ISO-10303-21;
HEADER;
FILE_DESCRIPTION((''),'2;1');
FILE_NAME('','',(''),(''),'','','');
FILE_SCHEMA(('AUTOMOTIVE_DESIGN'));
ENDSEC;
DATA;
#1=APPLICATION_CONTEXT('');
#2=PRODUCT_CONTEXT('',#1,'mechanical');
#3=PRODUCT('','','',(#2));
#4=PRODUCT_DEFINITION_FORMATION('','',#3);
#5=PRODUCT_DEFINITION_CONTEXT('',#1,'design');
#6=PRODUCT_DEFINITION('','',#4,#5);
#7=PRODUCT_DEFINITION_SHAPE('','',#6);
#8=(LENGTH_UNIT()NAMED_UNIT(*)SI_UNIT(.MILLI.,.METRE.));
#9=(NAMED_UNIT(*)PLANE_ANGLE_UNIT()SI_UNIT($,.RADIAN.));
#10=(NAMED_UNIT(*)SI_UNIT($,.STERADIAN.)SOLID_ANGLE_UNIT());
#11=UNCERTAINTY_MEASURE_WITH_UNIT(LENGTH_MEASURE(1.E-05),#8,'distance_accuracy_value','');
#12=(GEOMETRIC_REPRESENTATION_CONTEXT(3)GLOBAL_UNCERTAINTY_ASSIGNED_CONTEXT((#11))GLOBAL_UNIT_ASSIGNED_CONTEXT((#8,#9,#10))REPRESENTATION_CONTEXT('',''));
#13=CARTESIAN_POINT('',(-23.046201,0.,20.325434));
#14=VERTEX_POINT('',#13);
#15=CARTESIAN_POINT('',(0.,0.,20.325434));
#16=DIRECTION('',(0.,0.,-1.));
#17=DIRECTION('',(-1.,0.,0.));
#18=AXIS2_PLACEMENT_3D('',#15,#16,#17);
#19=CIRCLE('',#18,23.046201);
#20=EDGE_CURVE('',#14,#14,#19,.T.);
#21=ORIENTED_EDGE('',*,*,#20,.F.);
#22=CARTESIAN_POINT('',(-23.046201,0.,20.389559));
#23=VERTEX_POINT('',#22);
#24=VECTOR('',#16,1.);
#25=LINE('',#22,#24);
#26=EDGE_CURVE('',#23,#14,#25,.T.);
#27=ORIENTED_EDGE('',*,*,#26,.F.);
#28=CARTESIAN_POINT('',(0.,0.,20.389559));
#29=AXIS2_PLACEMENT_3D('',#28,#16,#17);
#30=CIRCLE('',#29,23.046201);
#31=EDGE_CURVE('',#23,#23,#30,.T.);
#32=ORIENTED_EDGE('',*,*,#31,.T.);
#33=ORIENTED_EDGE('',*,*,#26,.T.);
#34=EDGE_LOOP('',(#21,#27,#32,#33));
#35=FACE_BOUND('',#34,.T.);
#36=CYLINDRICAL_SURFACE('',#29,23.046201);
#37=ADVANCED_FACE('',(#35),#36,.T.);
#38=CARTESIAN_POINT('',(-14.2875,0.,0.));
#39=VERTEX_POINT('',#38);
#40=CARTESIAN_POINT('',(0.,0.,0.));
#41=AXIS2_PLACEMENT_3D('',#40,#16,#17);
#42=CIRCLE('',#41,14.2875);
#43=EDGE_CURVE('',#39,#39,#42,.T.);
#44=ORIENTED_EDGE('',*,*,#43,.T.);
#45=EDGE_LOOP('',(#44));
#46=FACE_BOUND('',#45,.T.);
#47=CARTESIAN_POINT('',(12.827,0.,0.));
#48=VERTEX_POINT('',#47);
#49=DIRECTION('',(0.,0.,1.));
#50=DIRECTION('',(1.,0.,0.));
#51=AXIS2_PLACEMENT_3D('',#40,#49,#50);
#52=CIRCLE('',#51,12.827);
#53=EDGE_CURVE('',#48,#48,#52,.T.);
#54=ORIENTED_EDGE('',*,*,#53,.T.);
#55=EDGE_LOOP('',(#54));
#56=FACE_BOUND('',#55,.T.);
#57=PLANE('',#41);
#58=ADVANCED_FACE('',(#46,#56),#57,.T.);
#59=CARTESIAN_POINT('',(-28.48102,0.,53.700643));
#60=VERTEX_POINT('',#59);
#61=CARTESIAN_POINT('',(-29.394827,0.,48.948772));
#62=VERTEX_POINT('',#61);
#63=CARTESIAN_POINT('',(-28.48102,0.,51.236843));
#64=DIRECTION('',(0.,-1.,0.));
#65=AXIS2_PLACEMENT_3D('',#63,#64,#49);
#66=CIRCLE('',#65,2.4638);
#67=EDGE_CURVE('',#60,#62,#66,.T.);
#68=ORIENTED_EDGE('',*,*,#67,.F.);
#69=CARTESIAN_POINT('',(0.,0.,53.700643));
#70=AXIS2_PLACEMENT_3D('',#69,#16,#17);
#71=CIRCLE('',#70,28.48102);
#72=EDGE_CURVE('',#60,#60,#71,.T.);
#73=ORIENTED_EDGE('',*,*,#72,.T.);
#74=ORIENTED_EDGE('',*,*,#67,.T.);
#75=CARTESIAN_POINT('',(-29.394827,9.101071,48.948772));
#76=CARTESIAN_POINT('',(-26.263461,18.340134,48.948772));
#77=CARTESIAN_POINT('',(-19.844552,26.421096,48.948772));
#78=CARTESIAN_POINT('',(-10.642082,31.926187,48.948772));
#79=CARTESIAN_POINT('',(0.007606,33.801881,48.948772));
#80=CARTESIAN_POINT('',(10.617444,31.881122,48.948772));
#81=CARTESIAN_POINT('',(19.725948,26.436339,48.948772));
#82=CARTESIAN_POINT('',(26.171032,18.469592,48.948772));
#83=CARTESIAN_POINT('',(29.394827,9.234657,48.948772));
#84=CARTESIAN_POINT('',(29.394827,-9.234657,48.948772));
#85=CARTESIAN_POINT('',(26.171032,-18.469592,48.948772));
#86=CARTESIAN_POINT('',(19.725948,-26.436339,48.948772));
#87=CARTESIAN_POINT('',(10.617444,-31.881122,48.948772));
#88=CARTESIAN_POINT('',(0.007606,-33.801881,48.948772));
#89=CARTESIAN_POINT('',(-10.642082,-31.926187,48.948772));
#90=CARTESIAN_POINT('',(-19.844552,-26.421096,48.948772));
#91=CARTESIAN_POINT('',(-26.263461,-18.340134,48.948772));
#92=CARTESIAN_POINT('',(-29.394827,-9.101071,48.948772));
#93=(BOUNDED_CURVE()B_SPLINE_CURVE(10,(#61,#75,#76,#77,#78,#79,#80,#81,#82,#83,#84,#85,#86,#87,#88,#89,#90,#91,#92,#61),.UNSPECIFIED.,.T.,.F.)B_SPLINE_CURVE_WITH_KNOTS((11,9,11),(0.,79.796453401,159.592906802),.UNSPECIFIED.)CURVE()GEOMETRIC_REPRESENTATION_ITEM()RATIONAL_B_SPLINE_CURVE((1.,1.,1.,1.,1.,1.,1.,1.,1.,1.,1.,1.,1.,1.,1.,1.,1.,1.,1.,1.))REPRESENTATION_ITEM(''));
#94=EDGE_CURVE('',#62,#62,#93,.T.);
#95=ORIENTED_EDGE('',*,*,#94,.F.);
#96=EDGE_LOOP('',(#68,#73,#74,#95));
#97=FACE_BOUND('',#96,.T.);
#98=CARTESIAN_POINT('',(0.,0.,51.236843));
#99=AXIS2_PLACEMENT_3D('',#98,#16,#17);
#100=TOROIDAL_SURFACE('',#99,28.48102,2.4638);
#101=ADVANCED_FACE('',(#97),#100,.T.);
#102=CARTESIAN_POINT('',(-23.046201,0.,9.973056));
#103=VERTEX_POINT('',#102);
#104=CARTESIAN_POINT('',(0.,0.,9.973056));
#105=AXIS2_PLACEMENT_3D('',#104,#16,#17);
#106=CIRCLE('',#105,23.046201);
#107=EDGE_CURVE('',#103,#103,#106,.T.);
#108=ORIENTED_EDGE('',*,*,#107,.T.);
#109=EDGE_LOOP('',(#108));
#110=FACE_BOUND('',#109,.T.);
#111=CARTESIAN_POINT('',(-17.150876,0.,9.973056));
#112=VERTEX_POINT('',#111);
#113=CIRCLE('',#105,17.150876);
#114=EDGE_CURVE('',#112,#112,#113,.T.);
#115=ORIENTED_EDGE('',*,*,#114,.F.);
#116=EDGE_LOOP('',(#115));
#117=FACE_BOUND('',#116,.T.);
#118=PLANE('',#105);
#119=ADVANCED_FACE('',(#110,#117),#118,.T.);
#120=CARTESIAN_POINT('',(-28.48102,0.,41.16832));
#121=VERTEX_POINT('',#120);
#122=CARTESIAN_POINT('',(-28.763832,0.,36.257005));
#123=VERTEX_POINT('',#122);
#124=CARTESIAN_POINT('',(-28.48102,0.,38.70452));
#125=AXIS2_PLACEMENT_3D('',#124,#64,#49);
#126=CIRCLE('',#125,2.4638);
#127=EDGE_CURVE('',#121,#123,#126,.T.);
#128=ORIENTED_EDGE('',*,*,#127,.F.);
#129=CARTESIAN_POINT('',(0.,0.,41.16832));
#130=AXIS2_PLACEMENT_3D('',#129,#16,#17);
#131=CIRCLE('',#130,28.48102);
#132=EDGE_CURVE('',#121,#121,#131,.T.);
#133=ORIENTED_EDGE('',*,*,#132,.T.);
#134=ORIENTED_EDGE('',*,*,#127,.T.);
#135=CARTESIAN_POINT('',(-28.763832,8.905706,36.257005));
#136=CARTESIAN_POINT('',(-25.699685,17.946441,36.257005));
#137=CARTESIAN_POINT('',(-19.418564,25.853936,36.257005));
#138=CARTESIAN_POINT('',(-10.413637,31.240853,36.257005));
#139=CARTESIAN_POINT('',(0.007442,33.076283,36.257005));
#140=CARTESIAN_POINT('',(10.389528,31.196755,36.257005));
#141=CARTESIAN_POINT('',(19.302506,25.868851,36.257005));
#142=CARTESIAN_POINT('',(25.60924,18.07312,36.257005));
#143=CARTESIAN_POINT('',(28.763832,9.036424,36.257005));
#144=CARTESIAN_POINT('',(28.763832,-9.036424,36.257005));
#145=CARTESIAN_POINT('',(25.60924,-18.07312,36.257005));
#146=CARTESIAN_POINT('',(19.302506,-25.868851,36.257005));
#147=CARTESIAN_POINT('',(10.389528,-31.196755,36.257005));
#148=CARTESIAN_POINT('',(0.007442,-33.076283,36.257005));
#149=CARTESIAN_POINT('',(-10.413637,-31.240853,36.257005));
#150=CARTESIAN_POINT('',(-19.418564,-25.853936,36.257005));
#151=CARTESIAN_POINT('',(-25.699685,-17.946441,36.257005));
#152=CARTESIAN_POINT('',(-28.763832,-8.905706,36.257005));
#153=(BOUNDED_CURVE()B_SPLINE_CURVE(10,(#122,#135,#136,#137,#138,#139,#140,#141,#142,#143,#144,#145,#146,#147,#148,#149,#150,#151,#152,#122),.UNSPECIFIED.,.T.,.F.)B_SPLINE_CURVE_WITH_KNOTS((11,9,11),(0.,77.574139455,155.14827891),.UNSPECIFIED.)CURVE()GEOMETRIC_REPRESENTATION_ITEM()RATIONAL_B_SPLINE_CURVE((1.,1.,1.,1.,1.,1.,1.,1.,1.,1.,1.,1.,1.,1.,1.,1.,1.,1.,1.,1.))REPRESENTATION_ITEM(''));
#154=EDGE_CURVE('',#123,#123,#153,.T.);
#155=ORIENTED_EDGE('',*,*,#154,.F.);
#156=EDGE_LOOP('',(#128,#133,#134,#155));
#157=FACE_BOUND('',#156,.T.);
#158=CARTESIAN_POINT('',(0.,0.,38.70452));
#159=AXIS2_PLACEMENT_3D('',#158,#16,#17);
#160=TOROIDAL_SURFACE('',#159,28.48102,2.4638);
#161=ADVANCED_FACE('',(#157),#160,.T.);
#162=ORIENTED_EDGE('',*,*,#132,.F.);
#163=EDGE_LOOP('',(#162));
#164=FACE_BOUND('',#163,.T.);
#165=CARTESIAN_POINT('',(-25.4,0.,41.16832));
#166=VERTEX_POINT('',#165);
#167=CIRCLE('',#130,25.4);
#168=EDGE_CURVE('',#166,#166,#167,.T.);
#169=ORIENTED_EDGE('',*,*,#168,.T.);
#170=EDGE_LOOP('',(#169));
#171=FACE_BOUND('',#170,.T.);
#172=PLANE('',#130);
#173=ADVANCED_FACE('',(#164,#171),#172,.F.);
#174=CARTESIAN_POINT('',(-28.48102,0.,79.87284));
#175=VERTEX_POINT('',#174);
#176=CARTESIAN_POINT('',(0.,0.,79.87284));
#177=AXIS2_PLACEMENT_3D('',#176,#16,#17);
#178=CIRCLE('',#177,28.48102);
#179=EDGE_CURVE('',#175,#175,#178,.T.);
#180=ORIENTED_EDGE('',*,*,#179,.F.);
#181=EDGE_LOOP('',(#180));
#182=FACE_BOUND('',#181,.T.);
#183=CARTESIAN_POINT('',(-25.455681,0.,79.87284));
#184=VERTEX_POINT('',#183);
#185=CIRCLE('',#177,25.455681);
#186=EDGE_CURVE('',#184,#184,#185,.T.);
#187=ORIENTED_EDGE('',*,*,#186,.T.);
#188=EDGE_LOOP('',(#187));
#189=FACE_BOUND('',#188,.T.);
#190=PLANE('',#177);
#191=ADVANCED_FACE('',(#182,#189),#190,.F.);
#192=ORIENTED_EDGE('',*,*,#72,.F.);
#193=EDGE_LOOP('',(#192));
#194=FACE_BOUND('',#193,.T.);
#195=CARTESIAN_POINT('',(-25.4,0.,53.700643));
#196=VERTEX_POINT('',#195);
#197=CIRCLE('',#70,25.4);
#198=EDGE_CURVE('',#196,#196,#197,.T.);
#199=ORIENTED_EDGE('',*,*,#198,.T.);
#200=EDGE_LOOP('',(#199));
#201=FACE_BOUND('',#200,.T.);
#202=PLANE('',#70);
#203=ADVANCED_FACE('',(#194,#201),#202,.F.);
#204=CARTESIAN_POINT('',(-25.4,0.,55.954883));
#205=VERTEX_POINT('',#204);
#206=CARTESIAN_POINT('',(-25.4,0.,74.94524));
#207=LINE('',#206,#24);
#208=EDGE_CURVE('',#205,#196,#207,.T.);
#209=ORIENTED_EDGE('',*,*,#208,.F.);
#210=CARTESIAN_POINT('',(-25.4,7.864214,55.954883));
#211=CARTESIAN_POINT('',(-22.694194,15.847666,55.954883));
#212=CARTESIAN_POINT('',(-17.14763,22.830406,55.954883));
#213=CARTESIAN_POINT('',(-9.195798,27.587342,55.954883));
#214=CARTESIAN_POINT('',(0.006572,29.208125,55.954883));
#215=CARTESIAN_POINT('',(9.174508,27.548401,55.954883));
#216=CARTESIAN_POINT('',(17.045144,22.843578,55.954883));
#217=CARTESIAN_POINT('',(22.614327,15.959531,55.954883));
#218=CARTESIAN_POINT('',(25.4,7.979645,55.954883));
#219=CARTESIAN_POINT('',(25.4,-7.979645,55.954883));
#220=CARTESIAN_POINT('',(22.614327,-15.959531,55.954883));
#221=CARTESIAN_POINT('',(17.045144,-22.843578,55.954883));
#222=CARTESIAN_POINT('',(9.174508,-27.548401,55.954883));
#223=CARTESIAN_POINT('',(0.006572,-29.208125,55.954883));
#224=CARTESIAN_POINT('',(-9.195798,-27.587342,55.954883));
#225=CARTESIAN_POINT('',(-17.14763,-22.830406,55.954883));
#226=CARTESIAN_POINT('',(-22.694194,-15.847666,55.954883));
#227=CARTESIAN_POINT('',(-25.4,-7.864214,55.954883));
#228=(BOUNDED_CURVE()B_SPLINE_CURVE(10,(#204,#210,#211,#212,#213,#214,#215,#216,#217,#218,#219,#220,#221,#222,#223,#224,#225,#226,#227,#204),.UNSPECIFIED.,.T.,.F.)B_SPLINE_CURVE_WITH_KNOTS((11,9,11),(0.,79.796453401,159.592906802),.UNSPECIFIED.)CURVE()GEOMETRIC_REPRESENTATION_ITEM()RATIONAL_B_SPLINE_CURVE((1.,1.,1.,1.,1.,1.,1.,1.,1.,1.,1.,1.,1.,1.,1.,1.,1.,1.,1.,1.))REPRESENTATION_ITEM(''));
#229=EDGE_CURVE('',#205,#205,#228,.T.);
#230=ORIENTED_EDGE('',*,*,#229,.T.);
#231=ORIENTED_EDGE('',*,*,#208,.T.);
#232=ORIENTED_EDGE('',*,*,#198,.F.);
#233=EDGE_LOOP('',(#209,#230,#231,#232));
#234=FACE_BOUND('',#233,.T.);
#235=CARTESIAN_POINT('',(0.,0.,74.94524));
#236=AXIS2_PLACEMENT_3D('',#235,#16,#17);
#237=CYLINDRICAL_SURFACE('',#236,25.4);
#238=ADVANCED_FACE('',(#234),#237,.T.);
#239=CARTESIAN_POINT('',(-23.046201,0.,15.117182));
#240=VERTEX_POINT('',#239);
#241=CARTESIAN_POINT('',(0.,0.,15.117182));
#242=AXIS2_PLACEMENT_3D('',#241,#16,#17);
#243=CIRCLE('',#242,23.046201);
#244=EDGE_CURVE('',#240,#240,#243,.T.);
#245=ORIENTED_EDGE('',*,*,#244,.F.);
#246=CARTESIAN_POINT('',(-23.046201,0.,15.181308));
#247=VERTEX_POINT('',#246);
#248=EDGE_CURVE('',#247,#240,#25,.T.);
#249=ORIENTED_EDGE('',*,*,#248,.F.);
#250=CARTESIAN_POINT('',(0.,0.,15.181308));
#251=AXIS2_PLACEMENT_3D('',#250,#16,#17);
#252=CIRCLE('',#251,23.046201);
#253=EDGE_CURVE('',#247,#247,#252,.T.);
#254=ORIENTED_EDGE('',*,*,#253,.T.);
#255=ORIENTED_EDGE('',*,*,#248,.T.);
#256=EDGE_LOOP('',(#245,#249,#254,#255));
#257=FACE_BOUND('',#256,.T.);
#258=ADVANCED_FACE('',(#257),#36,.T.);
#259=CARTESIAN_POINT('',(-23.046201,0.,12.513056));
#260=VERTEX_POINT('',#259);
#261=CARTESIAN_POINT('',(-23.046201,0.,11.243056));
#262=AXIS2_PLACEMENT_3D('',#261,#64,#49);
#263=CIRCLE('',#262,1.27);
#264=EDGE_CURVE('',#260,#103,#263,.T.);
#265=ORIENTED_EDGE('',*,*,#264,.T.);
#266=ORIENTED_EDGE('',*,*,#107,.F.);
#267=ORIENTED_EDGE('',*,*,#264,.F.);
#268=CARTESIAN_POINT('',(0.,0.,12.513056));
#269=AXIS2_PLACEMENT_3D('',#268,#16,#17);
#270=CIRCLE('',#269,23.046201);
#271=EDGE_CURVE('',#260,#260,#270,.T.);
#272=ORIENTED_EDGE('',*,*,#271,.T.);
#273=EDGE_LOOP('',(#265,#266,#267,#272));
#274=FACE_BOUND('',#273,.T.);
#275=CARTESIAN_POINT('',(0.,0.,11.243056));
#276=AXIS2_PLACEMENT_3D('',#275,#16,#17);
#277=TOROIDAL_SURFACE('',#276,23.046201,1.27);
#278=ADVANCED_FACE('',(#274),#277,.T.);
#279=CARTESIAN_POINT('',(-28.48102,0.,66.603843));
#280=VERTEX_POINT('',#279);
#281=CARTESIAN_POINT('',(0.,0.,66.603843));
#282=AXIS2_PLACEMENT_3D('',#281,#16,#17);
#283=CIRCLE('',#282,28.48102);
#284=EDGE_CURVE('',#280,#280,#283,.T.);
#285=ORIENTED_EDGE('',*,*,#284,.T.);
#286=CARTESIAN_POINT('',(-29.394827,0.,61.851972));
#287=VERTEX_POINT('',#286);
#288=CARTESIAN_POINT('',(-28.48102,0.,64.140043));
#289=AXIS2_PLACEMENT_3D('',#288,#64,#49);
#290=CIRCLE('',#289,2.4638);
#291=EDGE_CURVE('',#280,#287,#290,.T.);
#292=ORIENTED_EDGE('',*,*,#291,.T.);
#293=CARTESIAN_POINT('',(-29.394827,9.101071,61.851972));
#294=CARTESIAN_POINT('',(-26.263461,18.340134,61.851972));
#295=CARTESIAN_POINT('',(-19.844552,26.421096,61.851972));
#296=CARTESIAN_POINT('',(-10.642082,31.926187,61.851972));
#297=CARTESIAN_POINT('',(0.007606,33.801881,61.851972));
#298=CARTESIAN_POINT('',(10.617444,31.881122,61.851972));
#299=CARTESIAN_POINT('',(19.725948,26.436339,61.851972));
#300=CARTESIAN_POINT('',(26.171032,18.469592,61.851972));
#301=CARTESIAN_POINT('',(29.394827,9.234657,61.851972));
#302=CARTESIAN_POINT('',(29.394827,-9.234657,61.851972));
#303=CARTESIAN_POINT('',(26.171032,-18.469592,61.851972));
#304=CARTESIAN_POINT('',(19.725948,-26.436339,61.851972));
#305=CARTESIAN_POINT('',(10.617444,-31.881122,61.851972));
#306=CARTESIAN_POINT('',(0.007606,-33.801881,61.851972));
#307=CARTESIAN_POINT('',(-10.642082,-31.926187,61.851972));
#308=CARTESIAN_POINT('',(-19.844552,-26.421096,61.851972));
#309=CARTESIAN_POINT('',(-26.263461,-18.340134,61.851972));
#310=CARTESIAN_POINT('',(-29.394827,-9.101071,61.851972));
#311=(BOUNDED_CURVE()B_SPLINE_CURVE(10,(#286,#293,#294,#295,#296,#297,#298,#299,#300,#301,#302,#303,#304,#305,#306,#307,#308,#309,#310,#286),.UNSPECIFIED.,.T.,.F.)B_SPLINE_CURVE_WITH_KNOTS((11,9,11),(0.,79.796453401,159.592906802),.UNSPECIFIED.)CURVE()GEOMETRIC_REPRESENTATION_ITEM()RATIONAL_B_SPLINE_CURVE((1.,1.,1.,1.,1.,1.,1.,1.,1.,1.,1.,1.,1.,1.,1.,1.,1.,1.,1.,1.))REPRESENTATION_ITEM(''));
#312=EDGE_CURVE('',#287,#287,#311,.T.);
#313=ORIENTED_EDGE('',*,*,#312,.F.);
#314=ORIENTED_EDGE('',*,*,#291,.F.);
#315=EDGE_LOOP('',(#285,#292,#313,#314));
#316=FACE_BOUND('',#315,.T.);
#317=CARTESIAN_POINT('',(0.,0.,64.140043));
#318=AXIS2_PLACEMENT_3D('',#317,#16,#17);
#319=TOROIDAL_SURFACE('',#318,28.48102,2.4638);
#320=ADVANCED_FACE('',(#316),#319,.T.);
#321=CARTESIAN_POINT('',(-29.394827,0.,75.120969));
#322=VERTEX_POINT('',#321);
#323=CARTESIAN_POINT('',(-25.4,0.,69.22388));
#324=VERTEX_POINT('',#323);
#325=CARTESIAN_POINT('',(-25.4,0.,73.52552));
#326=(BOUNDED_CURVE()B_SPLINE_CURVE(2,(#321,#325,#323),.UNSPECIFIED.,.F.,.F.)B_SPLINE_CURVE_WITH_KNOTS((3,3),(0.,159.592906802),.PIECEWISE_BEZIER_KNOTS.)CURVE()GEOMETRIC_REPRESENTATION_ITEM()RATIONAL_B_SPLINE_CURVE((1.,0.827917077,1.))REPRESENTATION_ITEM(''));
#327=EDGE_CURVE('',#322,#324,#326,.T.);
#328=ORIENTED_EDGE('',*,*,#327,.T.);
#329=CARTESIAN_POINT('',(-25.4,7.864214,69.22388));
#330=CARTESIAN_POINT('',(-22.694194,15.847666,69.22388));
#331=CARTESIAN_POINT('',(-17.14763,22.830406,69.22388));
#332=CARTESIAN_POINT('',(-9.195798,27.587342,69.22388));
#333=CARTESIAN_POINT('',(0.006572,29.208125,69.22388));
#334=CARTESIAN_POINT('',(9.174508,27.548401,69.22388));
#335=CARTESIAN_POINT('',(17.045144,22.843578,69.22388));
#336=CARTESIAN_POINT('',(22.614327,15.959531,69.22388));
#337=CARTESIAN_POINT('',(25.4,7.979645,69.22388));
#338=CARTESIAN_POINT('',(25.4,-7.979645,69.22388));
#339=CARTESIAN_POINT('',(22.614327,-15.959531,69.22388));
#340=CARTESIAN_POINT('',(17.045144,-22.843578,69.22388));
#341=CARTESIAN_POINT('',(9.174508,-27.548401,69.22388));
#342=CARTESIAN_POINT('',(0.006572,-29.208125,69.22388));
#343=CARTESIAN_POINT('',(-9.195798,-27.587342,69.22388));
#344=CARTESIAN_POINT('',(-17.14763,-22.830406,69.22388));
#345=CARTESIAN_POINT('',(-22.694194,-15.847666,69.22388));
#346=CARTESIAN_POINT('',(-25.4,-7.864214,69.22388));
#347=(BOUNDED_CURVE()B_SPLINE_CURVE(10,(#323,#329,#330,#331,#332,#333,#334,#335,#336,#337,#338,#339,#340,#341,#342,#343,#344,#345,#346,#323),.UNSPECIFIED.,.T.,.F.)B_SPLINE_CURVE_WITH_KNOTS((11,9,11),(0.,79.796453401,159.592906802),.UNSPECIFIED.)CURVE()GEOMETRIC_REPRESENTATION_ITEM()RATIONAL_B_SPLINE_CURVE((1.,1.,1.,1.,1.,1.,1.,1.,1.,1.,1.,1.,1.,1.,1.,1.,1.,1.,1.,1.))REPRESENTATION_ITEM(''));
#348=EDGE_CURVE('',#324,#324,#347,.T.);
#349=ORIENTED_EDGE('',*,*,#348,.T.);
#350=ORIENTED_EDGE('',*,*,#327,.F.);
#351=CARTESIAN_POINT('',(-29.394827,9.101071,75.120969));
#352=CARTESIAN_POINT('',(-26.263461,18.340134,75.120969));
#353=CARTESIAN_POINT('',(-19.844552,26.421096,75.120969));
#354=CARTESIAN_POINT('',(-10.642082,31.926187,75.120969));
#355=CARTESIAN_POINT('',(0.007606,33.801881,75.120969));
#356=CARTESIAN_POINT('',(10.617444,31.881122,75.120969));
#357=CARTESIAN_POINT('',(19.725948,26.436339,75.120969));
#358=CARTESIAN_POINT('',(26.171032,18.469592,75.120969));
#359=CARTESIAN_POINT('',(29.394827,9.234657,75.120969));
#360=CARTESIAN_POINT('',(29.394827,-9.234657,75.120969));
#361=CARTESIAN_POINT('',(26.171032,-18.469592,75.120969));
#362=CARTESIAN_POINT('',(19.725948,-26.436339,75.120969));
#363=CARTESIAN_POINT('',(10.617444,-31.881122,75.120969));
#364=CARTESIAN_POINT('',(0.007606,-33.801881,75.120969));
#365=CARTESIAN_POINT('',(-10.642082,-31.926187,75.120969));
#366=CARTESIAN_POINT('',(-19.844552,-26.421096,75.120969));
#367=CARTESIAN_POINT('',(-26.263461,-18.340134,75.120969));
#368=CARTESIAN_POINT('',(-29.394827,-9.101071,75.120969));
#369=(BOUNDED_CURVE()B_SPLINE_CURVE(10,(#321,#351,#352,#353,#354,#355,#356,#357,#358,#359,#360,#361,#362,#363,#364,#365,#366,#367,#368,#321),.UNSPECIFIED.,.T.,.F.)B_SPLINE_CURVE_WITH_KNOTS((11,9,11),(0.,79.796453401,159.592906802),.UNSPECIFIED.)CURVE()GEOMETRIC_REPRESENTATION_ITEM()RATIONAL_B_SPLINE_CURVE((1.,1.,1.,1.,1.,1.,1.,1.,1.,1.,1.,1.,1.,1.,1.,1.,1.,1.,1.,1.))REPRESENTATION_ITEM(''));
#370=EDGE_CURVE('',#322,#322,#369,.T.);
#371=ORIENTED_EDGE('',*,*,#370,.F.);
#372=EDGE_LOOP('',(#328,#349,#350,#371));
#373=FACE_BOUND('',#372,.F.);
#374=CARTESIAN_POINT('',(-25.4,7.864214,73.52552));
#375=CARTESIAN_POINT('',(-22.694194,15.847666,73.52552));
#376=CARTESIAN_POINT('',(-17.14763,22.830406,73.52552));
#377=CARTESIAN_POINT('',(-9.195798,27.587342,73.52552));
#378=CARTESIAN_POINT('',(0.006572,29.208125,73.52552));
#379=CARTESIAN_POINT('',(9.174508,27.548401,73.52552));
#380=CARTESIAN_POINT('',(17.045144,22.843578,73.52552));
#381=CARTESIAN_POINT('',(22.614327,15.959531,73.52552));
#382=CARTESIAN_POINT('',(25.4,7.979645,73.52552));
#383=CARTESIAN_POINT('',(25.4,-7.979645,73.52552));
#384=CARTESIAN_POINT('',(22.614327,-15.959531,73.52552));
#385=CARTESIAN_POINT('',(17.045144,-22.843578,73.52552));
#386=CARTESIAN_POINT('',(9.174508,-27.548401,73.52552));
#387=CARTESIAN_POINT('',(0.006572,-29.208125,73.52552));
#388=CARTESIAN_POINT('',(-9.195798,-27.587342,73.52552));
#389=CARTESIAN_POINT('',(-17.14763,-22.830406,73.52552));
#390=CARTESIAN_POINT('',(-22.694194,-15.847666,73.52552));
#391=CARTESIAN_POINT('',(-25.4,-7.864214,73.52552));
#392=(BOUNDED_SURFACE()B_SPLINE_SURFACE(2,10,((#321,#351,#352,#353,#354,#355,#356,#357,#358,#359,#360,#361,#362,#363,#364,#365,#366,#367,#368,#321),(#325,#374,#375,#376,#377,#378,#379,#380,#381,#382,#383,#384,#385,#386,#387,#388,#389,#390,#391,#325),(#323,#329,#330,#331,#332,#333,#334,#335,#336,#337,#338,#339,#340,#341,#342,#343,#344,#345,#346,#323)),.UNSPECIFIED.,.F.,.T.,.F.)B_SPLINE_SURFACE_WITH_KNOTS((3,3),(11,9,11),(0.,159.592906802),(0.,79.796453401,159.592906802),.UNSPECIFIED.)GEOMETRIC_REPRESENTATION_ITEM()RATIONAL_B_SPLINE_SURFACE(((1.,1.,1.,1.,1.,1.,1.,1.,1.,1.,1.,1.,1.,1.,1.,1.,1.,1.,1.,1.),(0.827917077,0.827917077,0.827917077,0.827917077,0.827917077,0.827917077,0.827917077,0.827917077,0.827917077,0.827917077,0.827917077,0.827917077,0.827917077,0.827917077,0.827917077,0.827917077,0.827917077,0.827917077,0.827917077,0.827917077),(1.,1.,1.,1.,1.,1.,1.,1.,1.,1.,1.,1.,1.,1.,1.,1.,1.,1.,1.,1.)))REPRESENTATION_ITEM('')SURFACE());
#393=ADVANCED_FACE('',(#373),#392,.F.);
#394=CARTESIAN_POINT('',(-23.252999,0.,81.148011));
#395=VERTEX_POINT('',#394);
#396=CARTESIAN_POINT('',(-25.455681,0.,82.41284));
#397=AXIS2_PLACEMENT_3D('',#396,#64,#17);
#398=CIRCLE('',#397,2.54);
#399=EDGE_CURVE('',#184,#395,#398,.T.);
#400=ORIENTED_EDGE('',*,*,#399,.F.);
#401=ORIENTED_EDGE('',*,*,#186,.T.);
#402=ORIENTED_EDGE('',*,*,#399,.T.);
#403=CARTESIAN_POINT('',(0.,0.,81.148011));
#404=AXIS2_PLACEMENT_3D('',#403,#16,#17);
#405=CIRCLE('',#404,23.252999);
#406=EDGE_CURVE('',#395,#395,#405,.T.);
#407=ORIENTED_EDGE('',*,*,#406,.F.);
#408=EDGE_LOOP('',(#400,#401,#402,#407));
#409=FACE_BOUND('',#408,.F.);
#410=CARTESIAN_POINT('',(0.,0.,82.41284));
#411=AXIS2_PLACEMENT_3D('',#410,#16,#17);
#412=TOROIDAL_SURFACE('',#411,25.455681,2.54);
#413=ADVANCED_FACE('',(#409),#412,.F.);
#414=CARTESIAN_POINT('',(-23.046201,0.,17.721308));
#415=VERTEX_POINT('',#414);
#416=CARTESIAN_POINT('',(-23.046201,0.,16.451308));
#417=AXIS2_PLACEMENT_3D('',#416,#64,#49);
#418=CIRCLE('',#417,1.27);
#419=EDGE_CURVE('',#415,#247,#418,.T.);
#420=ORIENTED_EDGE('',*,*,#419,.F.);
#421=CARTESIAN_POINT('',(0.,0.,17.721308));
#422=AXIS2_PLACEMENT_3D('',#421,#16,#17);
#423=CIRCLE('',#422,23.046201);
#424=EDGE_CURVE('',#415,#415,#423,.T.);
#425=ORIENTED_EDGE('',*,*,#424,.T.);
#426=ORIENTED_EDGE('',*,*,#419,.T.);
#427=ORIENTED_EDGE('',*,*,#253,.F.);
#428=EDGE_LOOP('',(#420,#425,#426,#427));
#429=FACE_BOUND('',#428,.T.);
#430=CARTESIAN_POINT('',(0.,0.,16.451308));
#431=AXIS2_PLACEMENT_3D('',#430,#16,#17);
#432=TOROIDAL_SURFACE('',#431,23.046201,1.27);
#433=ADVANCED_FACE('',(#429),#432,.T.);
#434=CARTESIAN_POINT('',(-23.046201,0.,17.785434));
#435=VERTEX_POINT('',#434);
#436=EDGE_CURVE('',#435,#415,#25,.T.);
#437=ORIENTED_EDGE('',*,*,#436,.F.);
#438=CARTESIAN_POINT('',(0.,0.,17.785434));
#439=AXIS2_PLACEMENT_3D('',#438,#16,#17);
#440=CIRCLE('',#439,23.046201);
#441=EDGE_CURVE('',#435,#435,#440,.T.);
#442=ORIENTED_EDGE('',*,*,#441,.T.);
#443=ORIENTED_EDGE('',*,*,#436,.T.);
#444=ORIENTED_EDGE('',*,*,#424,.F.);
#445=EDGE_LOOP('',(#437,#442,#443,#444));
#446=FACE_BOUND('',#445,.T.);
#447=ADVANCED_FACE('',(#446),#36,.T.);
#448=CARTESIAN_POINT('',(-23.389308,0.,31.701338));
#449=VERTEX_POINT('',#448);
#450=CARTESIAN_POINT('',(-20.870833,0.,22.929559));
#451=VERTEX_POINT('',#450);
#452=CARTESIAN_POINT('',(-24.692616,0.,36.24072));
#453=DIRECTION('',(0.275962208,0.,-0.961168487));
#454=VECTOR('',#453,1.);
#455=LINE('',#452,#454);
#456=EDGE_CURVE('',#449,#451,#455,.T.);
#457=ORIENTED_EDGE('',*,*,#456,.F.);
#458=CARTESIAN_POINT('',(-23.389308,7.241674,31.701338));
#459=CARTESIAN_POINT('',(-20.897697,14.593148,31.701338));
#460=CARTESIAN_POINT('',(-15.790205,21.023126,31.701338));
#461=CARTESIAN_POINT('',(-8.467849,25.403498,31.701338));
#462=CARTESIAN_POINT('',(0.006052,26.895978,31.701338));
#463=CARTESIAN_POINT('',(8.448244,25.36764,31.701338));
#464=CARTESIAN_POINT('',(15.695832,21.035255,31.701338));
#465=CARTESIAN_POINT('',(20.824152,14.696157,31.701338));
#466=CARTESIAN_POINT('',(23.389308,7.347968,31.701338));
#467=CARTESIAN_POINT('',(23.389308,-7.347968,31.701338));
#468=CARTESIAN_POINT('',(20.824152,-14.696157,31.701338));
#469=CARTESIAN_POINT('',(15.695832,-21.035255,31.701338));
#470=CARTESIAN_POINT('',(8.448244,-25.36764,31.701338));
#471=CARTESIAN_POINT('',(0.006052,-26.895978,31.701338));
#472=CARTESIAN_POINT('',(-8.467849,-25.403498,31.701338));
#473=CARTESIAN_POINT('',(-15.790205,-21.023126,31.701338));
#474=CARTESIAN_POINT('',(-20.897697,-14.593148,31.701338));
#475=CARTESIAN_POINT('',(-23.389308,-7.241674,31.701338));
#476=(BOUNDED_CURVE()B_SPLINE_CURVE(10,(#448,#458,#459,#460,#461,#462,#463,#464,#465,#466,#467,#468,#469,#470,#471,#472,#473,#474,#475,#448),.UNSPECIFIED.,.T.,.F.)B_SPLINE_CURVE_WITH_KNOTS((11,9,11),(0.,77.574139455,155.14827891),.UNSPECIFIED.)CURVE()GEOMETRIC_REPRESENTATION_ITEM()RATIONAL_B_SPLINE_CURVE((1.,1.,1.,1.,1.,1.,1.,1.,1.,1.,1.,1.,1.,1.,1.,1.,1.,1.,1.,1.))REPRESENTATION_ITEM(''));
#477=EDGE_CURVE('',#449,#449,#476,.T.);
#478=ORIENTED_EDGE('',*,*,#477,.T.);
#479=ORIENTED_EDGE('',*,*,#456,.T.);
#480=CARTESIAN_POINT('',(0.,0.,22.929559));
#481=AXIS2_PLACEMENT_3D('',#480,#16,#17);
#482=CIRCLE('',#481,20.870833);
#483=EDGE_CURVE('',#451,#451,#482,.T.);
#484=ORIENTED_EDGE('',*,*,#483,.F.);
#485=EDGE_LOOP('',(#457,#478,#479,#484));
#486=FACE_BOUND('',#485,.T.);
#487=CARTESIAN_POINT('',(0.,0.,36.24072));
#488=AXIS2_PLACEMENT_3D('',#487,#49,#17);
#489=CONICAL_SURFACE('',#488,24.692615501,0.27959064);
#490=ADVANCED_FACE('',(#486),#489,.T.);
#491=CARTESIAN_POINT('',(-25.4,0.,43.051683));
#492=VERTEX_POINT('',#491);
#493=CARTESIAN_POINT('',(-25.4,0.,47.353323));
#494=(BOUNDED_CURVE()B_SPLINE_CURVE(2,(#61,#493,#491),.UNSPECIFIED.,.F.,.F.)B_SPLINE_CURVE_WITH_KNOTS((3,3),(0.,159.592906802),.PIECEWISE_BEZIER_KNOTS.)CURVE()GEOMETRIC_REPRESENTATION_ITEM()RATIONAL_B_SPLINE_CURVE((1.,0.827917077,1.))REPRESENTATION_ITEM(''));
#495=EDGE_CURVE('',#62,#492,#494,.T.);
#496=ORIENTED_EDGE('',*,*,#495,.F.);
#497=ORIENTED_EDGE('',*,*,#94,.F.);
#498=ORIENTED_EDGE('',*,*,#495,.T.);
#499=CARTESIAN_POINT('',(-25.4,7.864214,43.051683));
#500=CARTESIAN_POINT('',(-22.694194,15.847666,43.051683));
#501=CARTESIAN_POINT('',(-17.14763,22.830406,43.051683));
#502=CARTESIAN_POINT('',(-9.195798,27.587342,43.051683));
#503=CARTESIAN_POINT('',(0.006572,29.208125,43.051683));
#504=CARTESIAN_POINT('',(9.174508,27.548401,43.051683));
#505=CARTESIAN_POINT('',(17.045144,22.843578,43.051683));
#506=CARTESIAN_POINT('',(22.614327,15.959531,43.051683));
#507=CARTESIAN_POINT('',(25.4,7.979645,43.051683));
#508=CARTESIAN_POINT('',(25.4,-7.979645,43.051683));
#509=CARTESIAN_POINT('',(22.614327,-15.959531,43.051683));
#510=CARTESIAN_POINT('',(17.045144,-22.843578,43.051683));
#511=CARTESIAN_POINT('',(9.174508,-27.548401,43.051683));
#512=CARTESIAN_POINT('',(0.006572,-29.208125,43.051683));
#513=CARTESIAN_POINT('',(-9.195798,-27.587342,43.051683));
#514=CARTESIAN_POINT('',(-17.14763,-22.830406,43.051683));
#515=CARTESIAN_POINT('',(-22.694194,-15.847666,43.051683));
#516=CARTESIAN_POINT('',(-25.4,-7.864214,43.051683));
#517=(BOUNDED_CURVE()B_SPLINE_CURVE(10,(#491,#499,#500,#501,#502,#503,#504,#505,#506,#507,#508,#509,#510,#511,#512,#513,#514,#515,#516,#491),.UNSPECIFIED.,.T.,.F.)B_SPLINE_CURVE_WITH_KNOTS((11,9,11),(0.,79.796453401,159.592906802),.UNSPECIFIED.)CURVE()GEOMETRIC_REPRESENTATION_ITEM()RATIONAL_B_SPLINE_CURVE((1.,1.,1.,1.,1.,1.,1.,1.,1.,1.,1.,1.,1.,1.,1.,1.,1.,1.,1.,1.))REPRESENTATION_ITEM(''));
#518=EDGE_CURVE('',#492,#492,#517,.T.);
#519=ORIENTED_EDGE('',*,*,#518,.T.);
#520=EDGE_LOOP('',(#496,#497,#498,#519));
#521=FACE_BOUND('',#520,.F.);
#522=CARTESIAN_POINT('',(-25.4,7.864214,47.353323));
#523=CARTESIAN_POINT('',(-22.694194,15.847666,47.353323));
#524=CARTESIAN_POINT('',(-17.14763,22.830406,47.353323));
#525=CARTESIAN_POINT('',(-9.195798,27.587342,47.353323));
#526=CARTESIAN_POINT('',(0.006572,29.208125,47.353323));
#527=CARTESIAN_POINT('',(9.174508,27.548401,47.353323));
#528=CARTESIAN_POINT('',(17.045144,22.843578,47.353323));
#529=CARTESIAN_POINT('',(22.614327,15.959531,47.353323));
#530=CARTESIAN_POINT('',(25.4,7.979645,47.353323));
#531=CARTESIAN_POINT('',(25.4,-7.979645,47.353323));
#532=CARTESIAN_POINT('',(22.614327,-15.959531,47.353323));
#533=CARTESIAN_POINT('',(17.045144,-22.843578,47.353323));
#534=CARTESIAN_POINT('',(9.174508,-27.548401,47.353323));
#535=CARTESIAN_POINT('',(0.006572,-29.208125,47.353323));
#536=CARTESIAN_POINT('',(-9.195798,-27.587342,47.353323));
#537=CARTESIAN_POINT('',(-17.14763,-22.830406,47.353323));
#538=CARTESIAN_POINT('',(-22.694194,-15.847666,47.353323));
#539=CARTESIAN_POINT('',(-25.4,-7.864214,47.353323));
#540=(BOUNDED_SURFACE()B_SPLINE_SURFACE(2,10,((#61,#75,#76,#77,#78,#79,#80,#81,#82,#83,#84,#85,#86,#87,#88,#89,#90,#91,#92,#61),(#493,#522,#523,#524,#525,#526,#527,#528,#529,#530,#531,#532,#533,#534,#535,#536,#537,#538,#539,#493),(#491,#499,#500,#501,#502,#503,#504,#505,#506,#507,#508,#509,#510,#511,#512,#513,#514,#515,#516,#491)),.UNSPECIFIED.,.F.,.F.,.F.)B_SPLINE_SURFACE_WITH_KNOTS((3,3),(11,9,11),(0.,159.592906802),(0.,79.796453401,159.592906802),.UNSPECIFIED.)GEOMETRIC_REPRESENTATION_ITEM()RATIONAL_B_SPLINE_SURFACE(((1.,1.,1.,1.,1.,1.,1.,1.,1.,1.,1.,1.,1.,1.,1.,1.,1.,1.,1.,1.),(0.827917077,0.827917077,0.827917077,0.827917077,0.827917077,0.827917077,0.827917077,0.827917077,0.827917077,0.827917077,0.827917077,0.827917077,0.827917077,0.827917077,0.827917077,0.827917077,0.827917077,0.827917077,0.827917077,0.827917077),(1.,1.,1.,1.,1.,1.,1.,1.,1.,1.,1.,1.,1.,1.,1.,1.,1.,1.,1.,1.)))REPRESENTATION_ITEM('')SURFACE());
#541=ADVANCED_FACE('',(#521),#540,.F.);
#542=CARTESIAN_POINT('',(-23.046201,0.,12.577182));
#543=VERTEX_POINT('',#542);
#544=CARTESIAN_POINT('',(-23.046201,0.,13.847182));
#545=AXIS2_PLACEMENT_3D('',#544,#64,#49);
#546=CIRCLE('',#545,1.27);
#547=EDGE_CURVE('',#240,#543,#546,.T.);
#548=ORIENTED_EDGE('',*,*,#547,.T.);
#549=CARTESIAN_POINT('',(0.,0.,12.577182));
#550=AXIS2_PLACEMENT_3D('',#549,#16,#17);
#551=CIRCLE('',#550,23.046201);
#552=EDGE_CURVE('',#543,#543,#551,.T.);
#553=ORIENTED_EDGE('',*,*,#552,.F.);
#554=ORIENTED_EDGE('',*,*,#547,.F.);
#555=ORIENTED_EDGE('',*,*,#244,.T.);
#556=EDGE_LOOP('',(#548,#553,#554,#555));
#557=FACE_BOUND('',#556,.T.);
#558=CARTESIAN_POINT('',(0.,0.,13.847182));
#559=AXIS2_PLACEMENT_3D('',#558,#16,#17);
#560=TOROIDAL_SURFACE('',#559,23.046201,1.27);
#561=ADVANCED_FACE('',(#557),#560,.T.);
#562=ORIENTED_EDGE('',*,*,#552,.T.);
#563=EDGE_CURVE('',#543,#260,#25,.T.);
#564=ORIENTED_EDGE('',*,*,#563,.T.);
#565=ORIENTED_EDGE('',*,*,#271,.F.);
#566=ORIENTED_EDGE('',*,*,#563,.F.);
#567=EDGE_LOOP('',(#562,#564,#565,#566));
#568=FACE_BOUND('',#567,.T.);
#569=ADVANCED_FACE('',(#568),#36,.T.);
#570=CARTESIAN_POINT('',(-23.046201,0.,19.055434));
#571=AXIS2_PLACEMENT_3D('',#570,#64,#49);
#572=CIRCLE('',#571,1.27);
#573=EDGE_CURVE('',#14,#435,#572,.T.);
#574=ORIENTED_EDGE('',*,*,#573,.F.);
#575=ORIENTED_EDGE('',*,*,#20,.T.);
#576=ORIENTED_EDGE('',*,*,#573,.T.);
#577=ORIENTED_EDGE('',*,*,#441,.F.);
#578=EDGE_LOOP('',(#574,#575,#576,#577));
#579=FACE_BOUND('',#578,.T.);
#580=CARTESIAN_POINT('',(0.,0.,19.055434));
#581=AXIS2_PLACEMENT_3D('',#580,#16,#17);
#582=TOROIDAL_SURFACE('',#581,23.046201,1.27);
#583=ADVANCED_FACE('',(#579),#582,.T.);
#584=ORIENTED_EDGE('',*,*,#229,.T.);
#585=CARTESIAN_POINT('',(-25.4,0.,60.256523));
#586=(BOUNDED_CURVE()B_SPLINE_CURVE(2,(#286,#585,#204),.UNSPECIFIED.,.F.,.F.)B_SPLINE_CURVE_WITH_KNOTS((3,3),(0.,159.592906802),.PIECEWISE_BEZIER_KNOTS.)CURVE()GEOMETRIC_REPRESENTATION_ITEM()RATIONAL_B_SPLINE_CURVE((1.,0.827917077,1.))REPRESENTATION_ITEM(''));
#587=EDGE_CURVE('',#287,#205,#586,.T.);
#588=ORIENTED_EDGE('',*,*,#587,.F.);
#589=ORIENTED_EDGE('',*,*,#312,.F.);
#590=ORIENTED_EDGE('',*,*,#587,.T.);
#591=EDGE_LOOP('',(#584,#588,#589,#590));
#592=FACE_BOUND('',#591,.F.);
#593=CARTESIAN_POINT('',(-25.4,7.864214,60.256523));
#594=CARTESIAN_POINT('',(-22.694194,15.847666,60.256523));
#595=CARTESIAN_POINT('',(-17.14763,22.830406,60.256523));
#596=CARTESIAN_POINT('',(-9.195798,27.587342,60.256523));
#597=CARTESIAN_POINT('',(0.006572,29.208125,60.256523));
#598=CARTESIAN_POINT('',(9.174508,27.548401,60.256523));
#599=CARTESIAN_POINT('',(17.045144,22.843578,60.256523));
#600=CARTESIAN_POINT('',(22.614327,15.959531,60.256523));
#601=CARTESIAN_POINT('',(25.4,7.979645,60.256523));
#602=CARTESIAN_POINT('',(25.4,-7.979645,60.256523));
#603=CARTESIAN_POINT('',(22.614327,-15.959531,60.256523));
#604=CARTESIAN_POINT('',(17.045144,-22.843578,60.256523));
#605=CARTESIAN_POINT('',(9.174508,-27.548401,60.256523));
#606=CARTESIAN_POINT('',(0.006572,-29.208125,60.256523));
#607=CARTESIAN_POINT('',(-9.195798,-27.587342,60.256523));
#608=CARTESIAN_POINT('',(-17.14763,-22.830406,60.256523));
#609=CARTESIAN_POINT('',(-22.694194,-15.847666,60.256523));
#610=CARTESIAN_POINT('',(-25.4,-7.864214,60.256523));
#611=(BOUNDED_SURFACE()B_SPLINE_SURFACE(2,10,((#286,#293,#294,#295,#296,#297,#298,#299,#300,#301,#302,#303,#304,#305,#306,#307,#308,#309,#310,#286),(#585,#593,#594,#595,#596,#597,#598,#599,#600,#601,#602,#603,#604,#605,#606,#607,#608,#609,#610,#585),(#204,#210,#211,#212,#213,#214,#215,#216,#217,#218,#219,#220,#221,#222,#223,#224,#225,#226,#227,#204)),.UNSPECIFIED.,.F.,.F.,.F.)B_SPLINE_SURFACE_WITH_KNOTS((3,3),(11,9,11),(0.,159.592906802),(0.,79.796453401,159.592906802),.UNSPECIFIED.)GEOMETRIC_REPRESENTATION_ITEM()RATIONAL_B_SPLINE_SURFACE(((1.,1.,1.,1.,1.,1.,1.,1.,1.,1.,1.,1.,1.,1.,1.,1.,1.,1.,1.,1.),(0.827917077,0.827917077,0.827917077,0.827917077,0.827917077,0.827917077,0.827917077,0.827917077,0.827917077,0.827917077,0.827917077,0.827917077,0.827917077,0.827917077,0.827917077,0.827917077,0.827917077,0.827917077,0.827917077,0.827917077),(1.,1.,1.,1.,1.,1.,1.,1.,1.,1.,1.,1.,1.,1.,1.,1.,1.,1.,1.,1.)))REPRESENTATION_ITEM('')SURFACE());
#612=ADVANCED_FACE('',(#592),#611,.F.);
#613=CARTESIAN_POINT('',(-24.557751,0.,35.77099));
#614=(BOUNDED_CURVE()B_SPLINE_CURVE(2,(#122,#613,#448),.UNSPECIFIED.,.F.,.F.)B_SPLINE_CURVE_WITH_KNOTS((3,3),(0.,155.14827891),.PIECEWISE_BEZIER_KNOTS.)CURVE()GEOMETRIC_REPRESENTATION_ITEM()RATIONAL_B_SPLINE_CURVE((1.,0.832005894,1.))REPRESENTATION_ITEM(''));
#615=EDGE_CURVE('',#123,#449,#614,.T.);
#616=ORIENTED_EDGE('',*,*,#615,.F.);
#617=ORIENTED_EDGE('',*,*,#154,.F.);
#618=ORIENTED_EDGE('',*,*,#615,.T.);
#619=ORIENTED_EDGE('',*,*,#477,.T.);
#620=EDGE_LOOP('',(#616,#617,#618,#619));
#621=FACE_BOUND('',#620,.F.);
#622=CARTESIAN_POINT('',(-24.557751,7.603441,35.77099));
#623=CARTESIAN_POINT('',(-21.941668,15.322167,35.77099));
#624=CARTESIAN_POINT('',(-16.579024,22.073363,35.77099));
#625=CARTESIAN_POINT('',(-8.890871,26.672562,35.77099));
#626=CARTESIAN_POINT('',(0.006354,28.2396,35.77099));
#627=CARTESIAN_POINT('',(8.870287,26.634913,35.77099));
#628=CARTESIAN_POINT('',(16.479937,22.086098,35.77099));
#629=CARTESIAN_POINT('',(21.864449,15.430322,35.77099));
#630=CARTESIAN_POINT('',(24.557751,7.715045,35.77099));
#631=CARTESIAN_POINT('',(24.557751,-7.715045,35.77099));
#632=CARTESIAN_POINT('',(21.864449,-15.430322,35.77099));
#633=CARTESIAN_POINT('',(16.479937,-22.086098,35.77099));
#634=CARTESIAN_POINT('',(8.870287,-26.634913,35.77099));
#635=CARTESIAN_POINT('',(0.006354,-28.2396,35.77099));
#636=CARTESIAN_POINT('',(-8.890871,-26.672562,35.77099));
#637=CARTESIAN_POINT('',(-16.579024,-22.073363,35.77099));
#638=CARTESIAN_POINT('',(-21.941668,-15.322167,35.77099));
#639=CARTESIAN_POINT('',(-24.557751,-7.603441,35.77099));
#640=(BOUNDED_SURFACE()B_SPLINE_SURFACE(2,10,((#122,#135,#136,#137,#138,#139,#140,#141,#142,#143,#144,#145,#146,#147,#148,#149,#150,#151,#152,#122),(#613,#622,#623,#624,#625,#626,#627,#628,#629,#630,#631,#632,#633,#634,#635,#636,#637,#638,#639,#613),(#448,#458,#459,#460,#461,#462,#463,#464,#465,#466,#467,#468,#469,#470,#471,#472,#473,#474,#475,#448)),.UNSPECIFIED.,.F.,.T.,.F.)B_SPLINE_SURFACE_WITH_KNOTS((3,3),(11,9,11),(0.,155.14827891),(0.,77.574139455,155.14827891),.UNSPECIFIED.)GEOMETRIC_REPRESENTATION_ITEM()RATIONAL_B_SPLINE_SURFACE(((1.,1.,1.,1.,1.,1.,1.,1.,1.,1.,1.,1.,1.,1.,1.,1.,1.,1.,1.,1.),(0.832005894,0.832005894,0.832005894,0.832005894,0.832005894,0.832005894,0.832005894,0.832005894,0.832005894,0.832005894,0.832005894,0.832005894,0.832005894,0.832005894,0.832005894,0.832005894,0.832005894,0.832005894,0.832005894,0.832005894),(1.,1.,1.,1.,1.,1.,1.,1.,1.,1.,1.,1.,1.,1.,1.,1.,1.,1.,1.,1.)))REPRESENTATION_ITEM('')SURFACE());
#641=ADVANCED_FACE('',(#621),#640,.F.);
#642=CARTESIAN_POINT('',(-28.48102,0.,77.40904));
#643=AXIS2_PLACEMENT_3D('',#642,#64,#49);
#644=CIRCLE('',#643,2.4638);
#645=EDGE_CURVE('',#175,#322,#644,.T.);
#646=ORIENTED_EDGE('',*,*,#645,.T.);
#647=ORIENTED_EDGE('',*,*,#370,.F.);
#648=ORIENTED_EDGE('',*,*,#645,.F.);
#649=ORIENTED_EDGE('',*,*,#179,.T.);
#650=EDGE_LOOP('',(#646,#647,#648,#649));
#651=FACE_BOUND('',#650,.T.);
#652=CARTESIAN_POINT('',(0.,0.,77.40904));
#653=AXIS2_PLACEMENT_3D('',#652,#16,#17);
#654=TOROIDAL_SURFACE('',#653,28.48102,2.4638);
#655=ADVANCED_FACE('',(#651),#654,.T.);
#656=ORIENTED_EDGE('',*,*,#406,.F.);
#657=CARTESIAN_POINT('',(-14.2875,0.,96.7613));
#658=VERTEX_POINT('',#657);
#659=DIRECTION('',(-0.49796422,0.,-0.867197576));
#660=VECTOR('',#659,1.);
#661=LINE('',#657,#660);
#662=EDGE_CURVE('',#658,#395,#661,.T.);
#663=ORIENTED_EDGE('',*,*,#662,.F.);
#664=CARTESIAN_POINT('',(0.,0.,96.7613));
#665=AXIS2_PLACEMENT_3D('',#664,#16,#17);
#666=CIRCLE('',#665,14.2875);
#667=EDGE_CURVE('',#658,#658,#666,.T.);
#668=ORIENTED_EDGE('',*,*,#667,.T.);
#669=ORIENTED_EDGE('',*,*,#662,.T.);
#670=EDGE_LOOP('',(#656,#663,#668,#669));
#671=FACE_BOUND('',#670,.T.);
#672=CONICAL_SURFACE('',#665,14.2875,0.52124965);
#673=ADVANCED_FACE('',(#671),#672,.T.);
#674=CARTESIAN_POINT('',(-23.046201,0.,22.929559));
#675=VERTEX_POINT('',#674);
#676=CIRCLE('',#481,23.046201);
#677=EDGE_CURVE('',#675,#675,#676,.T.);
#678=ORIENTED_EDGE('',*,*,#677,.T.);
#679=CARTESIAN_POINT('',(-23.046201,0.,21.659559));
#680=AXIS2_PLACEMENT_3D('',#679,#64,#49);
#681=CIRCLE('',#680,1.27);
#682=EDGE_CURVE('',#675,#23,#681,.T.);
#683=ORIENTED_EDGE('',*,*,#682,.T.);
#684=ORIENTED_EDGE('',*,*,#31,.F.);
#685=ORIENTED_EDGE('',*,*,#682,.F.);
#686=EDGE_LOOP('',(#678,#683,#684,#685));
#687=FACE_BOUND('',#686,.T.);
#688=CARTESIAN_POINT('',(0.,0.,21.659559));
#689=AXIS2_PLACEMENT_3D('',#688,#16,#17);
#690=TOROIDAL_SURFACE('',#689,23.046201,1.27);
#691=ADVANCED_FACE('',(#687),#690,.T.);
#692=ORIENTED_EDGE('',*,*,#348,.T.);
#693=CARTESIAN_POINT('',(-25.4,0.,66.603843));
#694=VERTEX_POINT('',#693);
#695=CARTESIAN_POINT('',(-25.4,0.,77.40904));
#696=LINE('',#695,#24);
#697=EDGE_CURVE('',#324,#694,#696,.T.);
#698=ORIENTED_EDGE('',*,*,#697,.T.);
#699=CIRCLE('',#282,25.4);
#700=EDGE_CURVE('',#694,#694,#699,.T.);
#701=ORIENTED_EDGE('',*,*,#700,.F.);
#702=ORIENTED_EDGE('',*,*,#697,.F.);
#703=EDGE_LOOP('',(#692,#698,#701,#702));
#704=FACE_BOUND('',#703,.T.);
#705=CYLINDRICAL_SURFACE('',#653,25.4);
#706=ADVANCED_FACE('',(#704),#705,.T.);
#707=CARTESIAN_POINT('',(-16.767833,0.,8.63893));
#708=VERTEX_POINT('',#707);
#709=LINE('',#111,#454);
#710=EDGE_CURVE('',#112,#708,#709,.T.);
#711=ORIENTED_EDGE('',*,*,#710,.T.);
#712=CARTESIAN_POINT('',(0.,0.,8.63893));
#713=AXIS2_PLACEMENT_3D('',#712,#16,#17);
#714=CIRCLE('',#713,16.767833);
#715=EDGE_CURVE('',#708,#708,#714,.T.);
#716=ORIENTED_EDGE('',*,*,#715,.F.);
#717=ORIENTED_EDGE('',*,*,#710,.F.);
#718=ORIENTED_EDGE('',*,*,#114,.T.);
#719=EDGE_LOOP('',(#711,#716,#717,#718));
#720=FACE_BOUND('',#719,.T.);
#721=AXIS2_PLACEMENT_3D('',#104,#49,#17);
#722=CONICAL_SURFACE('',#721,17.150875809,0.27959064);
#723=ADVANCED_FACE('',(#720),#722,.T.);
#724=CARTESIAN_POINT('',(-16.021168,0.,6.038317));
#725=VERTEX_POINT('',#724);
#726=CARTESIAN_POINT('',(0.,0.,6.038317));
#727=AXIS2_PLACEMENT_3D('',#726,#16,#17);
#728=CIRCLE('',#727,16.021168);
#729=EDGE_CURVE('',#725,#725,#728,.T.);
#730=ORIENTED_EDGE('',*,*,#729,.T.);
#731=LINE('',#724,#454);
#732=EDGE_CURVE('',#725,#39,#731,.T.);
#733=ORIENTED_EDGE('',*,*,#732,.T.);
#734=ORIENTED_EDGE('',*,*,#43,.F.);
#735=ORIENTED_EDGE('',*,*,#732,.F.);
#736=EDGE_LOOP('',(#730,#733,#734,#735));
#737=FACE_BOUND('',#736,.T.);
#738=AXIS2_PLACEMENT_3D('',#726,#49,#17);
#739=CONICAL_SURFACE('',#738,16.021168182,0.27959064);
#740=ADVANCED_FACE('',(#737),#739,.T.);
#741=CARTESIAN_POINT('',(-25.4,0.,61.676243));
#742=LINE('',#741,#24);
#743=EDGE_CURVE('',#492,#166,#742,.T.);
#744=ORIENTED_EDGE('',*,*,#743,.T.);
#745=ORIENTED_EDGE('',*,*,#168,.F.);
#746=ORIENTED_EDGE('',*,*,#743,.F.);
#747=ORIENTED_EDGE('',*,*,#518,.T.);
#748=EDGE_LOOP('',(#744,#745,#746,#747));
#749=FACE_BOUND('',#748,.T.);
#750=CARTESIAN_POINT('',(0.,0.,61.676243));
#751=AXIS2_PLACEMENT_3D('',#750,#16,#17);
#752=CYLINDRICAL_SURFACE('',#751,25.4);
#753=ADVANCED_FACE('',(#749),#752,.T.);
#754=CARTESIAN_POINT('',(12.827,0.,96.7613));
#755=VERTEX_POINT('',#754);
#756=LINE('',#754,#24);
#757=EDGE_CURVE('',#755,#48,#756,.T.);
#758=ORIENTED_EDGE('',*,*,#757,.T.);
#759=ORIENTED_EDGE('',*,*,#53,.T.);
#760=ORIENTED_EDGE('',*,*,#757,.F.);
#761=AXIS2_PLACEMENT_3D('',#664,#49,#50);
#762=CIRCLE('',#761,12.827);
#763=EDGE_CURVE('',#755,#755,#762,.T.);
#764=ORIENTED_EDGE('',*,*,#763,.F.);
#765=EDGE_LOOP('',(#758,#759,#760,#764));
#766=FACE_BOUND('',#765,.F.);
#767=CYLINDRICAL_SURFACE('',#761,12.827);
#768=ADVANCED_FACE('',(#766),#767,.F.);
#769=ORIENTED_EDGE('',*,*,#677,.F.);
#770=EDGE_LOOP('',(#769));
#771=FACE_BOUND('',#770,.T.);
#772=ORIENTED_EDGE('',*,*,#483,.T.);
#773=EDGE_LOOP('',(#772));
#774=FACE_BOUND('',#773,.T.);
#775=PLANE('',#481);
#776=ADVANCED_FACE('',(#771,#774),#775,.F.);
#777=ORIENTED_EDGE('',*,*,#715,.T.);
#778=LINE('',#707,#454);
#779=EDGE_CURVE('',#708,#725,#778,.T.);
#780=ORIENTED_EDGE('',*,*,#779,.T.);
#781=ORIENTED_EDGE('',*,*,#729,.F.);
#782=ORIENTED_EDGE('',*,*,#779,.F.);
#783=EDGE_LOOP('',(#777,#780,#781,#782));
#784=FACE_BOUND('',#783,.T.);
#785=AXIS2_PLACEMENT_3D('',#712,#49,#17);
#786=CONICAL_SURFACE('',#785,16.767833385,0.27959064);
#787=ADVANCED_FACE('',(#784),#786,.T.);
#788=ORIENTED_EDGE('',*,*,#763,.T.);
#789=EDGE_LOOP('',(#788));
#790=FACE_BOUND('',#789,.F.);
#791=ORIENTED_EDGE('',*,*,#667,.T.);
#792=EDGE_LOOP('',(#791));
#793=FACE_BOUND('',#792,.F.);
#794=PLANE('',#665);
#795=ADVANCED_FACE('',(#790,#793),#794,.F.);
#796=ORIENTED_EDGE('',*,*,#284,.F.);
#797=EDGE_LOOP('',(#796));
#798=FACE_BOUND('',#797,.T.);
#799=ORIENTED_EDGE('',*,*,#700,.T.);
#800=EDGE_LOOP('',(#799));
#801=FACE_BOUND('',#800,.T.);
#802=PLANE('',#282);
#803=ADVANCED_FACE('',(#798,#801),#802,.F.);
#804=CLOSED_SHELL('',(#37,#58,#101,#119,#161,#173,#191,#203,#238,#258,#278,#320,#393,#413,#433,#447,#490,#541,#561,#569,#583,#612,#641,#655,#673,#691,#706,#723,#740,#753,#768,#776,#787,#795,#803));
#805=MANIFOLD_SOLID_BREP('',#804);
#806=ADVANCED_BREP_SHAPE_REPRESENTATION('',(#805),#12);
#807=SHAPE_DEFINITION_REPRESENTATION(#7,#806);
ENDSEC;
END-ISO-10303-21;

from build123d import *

# Parameters (mm, degrees)
F0_W     = 14.2875
F0_H     = 36.24072
F0_H_2   = 7.6047228576
F0_W_2   = 11.1125
F0_H_3   = 4.9276
F0_H_4   = 7.9756
F0_H_5   = 8.3413971424
F0_H_6   = 16.88846
F2_R     = 6.35
F3_R     = 2.54
F4_R     = 12.827
F5_DEPTH = 96.7623


with BuildPart() as f1:
    # F0 (on Front) → F1 (revolve)
    with BuildSketch(Plane.XZ):
        with Locations((-7.14375, 18.12036)):
            Rectangle(F0_W, F0_H)
        Polygon((-14.2875, 36.24072), (0, 36.24072), (0, 38.70452), (0, 41.16832), (-14.2875, 41.16832), align=None)
        Polygon((-16.021168182, 6.0383167444), (-14.2875, 0), (-14.2875, 36.24072), (-24.6926155007, 36.24072), (-20.8708326172, 22.9295594106), (-20.506201432, 21.6595594106), (-19.7585278225, 19.0554335909), (-19.0108542131, 16.4513077712), (-18.2636852833, 13.8489397364), (-18.2631806036, 13.8471819515), (-17.5155069941, 11.2430561318), (-17.1508758089, 9.9730561318), (-16.7678333847, 8.6389303121), align=None)
        Polygon((-24.6926155007, 36.24072), (-14.2875, 36.24072), (-14.2875, 41.16832), (-25.4, 41.16832), (-25.4, 38.70452), align=None)
        with Locations((-7.14375, 44.9706814288)):
            Rectangle(F0_W, F0_H_2)
        with Locations((-19.84375, 44.9706814288)):
            Rectangle(F0_W_2, F0_H_2)
        Polygon((-25.4, 36.24072), (-24.6926155007, 36.24072), (-25.4, 38.70452), align=None)
        with Locations((-7.14375, 51.2368428576)):
            Rectangle(F0_W, F0_H_3)
        Polygon((-25.4, 48.7730428576), (-14.2875, 48.7730428576), (-14.2875, 53.7006428576), (-25.4, 53.7006428576), (-25.4, 51.2368428576), align=None)
        Polygon((-25.4, 38.70452), (-25.4, 41.16832), (-28.48102, 41.16832), (-28.48102, 36.24072), (-25.4, 36.24072), align=None)
        with BuildLine():
            Line((-20.506201432, 21.6595594106), (-20.8708326172, 22.9295594106))
            Line((-20.8708326172, 22.9295594106), (-23.046201432, 22.9295594106))
            ThreePointArc((-23.046201432, 22.9295594106), (-24.316201432, 21.6595594106), (-23.046201432, 20.3895594106))
            Line((-23.046201432, 20.3895594106), (-23.046201432, 21.6595594106))
            Line((-23.046201432, 21.6595594106), (-20.506201432, 21.6595594106))
        make_face()
        Polygon((-23.046201432, 9.9730561318), (-17.1508758089, 9.9730561318), (-17.5155069941, 11.2430561318), (-23.046201432, 11.2430561318), align=None)
        Polygon((-14.2875, 53.7006428576), (0, 53.7006428576), (0, 58.05678), (0, 61.6762428576), (-14.2875, 61.6762428576), align=None)
        with Locations((-19.84375, 57.6884428576)):
            Rectangle(F0_W_2, F0_H_4)
        Polygon((-28.48102, 48.7730428576), (-25.4, 48.7730428576), (-25.4, 51.2368428576), (-25.4, 53.7006428576), (-28.48102, 53.7006428576), align=None)
        with BuildLine():
            Line((-28.48102, 36.24072), (-28.48102, 41.16832))
            ThreePointArc((-28.48102, 41.16832), (-30.94482, 38.70452), (-28.48102, 36.24072))
        make_face()
        Polygon((-19.7585278225, 19.0554335909), (-20.506201432, 21.6595594106), (-23.046201432, 21.6595594106), (-23.046201432, 20.3895594106), (-23.046201432, 20.3254335909), (-23.046201432, 19.0554335909), align=None)
        Polygon((-23.046201432, 11.2430561318), (-17.5155069941, 11.2430561318), (-18.2631806036, 13.8471819515), (-23.046201432, 13.8471819515), (-23.046201432, 12.5771819515), (-23.046201432, 12.5130561318), align=None)
        with BuildLine():
            ThreePointArc((-23.046201432, 12.5130561318), (-24.316201432, 11.2430561318), (-23.046201432, 9.9730561318))
            Line((-23.046201432, 9.9730561318), (-23.046201432, 11.2430561318))
            Line((-23.046201432, 11.2430561318), (-23.046201432, 12.5130561318))
        make_face()
        Polygon((-25.4, 61.6762428576), (-14.2875, 61.6762428576), (-14.2875, 66.6038428576), (-25.4, 66.6038428576), (-25.4, 64.1400428576), align=None)
        with Locations((-7.14375, 64.1400428576)):
            Rectangle(F0_W, F0_H_3)
        with BuildLine():
            ThreePointArc((-28.48102, 53.7006428576), (-30.94482, 51.2368428576), (-28.48102, 48.7730428576))
            Line((-28.48102, 48.7730428576), (-28.48102, 53.7006428576))
        make_face()
        Polygon((-19.0108542131, 16.4513077712), (-19.7585278225, 19.0554335909), (-23.046201432, 19.0554335909), (-23.046201432, 17.7854335909), (-23.046201432, 17.7213077712), (-23.046201432, 16.4513077712), align=None)
        Polygon((-23.046201432, 13.8471819515), (-18.2631806036, 13.8471819515), (-18.2636852833, 13.8489397364), (-19.0108542131, 16.4513077712), (-23.046201432, 16.4513077712), (-23.046201432, 15.1813077712), (-23.046201432, 15.1171819515), align=None)
        with Locations((-19.84375, 70.7745414288)):
            Rectangle(F0_W_2, F0_H_5)
        with Locations((-7.14375, 70.7745414288)):
            Rectangle(F0_W, F0_H_5)
        Polygon((-28.48102, 61.6762428576), (-25.4, 61.6762428576), (-25.4, 64.1400428576), (-25.4, 66.6038428576), (-28.48102, 66.6038428576), align=None)
        with BuildLine():
            Line((-23.046201432, 17.7854335909), (-23.046201432, 19.0554335909))
            Line((-23.046201432, 19.0554335909), (-23.046201432, 20.3254335909))
            ThreePointArc((-23.046201432, 20.3254335909), (-24.316201432, 19.0554335909), (-23.046201432, 17.7854335909))
        make_face()
        with BuildLine():
            Line((-23.046201432, 12.5771819515), (-23.046201432, 13.8471819515))
            Line((-23.046201432, 13.8471819515), (-23.046201432, 15.1171819515))
            ThreePointArc((-23.046201432, 15.1171819515), (-24.316201432, 13.8471819515), (-23.046201432, 12.5771819515))
        make_face()
        Polygon((-25.4, 74.94524), (-14.2875, 74.94524), (-14.2875, 79.87284), (-23.9852310014, 79.87284), (-25.4, 77.40904), align=None)
        Polygon((-14.2875, 79.87284), (-14.2875, 74.94524), (0, 74.94524), (0, 77.40904), (0, 79.87284), align=None)
        with BuildLine():
            ThreePointArc((-28.48102, 66.6038428576), (-30.94482, 64.1400428576), (-28.48102, 61.6762428576))
            Line((-28.48102, 61.6762428576), (-28.48102, 66.6038428576))
        make_face()
        with BuildLine():
            Line((-23.046201432, 15.1813077712), (-23.046201432, 16.4513077712))
            Line((-23.046201432, 16.4513077712), (-23.046201432, 17.7213077712))
            ThreePointArc((-23.046201432, 17.7213077712), (-24.316201432, 16.4513077712), (-23.046201432, 15.1813077712))
        make_face()
        Polygon((-23.9852310014, 79.87284), (-14.2875, 79.87284), (-14.2875, 96.7613), align=None)
        with Locations((-7.14375, 88.31707)):
            Rectangle(F0_W, F0_H_6)
        Polygon((-28.48102, 74.94524), (-25.4, 74.94524), (-25.4, 77.40904), (-25.4, 79.87284), (-28.48102, 79.87284), align=None)
        Polygon((-25.4, 77.40904), (-23.9852310014, 79.87284), (-25.4, 79.87284), align=None)
        with BuildLine():
            ThreePointArc((-28.48102, 79.87284), (-30.94482, 77.40904), (-28.48102, 74.94524))
            Line((-28.48102, 74.94524), (-28.48102, 79.87284))
        make_face()
    revolve(axis=Axis((0, 0, 87.08517), (0, 0, -1)))

    # F2
    f2_edges = [f1.edges().sort_by_distance(p)[0] for p in [
        (24.692616, 0, 36.24072),
        (25.4, 0, 48.773043),
        (25.4, 0, 61.676243),
        (25.4, 0, 74.94524),
    ]]
    fillet(f2_edges, radius=F2_R)

    # F3
    f3_edges = [f1.edges().sort_by_distance(p)[0] for p in [
        (23.985231, 0, 79.87284),
    ]]
    fillet(f3_edges, radius=F3_R)

    # F4 (on face) → F5 (cut, through all)
    with BuildSketch(Plane.XY.offset(96.7613)):
        Circle(F4_R)
    extrude(amount=-F5_DEPTH, mode=Mode.SUBTRACT)


solid = f1.part
